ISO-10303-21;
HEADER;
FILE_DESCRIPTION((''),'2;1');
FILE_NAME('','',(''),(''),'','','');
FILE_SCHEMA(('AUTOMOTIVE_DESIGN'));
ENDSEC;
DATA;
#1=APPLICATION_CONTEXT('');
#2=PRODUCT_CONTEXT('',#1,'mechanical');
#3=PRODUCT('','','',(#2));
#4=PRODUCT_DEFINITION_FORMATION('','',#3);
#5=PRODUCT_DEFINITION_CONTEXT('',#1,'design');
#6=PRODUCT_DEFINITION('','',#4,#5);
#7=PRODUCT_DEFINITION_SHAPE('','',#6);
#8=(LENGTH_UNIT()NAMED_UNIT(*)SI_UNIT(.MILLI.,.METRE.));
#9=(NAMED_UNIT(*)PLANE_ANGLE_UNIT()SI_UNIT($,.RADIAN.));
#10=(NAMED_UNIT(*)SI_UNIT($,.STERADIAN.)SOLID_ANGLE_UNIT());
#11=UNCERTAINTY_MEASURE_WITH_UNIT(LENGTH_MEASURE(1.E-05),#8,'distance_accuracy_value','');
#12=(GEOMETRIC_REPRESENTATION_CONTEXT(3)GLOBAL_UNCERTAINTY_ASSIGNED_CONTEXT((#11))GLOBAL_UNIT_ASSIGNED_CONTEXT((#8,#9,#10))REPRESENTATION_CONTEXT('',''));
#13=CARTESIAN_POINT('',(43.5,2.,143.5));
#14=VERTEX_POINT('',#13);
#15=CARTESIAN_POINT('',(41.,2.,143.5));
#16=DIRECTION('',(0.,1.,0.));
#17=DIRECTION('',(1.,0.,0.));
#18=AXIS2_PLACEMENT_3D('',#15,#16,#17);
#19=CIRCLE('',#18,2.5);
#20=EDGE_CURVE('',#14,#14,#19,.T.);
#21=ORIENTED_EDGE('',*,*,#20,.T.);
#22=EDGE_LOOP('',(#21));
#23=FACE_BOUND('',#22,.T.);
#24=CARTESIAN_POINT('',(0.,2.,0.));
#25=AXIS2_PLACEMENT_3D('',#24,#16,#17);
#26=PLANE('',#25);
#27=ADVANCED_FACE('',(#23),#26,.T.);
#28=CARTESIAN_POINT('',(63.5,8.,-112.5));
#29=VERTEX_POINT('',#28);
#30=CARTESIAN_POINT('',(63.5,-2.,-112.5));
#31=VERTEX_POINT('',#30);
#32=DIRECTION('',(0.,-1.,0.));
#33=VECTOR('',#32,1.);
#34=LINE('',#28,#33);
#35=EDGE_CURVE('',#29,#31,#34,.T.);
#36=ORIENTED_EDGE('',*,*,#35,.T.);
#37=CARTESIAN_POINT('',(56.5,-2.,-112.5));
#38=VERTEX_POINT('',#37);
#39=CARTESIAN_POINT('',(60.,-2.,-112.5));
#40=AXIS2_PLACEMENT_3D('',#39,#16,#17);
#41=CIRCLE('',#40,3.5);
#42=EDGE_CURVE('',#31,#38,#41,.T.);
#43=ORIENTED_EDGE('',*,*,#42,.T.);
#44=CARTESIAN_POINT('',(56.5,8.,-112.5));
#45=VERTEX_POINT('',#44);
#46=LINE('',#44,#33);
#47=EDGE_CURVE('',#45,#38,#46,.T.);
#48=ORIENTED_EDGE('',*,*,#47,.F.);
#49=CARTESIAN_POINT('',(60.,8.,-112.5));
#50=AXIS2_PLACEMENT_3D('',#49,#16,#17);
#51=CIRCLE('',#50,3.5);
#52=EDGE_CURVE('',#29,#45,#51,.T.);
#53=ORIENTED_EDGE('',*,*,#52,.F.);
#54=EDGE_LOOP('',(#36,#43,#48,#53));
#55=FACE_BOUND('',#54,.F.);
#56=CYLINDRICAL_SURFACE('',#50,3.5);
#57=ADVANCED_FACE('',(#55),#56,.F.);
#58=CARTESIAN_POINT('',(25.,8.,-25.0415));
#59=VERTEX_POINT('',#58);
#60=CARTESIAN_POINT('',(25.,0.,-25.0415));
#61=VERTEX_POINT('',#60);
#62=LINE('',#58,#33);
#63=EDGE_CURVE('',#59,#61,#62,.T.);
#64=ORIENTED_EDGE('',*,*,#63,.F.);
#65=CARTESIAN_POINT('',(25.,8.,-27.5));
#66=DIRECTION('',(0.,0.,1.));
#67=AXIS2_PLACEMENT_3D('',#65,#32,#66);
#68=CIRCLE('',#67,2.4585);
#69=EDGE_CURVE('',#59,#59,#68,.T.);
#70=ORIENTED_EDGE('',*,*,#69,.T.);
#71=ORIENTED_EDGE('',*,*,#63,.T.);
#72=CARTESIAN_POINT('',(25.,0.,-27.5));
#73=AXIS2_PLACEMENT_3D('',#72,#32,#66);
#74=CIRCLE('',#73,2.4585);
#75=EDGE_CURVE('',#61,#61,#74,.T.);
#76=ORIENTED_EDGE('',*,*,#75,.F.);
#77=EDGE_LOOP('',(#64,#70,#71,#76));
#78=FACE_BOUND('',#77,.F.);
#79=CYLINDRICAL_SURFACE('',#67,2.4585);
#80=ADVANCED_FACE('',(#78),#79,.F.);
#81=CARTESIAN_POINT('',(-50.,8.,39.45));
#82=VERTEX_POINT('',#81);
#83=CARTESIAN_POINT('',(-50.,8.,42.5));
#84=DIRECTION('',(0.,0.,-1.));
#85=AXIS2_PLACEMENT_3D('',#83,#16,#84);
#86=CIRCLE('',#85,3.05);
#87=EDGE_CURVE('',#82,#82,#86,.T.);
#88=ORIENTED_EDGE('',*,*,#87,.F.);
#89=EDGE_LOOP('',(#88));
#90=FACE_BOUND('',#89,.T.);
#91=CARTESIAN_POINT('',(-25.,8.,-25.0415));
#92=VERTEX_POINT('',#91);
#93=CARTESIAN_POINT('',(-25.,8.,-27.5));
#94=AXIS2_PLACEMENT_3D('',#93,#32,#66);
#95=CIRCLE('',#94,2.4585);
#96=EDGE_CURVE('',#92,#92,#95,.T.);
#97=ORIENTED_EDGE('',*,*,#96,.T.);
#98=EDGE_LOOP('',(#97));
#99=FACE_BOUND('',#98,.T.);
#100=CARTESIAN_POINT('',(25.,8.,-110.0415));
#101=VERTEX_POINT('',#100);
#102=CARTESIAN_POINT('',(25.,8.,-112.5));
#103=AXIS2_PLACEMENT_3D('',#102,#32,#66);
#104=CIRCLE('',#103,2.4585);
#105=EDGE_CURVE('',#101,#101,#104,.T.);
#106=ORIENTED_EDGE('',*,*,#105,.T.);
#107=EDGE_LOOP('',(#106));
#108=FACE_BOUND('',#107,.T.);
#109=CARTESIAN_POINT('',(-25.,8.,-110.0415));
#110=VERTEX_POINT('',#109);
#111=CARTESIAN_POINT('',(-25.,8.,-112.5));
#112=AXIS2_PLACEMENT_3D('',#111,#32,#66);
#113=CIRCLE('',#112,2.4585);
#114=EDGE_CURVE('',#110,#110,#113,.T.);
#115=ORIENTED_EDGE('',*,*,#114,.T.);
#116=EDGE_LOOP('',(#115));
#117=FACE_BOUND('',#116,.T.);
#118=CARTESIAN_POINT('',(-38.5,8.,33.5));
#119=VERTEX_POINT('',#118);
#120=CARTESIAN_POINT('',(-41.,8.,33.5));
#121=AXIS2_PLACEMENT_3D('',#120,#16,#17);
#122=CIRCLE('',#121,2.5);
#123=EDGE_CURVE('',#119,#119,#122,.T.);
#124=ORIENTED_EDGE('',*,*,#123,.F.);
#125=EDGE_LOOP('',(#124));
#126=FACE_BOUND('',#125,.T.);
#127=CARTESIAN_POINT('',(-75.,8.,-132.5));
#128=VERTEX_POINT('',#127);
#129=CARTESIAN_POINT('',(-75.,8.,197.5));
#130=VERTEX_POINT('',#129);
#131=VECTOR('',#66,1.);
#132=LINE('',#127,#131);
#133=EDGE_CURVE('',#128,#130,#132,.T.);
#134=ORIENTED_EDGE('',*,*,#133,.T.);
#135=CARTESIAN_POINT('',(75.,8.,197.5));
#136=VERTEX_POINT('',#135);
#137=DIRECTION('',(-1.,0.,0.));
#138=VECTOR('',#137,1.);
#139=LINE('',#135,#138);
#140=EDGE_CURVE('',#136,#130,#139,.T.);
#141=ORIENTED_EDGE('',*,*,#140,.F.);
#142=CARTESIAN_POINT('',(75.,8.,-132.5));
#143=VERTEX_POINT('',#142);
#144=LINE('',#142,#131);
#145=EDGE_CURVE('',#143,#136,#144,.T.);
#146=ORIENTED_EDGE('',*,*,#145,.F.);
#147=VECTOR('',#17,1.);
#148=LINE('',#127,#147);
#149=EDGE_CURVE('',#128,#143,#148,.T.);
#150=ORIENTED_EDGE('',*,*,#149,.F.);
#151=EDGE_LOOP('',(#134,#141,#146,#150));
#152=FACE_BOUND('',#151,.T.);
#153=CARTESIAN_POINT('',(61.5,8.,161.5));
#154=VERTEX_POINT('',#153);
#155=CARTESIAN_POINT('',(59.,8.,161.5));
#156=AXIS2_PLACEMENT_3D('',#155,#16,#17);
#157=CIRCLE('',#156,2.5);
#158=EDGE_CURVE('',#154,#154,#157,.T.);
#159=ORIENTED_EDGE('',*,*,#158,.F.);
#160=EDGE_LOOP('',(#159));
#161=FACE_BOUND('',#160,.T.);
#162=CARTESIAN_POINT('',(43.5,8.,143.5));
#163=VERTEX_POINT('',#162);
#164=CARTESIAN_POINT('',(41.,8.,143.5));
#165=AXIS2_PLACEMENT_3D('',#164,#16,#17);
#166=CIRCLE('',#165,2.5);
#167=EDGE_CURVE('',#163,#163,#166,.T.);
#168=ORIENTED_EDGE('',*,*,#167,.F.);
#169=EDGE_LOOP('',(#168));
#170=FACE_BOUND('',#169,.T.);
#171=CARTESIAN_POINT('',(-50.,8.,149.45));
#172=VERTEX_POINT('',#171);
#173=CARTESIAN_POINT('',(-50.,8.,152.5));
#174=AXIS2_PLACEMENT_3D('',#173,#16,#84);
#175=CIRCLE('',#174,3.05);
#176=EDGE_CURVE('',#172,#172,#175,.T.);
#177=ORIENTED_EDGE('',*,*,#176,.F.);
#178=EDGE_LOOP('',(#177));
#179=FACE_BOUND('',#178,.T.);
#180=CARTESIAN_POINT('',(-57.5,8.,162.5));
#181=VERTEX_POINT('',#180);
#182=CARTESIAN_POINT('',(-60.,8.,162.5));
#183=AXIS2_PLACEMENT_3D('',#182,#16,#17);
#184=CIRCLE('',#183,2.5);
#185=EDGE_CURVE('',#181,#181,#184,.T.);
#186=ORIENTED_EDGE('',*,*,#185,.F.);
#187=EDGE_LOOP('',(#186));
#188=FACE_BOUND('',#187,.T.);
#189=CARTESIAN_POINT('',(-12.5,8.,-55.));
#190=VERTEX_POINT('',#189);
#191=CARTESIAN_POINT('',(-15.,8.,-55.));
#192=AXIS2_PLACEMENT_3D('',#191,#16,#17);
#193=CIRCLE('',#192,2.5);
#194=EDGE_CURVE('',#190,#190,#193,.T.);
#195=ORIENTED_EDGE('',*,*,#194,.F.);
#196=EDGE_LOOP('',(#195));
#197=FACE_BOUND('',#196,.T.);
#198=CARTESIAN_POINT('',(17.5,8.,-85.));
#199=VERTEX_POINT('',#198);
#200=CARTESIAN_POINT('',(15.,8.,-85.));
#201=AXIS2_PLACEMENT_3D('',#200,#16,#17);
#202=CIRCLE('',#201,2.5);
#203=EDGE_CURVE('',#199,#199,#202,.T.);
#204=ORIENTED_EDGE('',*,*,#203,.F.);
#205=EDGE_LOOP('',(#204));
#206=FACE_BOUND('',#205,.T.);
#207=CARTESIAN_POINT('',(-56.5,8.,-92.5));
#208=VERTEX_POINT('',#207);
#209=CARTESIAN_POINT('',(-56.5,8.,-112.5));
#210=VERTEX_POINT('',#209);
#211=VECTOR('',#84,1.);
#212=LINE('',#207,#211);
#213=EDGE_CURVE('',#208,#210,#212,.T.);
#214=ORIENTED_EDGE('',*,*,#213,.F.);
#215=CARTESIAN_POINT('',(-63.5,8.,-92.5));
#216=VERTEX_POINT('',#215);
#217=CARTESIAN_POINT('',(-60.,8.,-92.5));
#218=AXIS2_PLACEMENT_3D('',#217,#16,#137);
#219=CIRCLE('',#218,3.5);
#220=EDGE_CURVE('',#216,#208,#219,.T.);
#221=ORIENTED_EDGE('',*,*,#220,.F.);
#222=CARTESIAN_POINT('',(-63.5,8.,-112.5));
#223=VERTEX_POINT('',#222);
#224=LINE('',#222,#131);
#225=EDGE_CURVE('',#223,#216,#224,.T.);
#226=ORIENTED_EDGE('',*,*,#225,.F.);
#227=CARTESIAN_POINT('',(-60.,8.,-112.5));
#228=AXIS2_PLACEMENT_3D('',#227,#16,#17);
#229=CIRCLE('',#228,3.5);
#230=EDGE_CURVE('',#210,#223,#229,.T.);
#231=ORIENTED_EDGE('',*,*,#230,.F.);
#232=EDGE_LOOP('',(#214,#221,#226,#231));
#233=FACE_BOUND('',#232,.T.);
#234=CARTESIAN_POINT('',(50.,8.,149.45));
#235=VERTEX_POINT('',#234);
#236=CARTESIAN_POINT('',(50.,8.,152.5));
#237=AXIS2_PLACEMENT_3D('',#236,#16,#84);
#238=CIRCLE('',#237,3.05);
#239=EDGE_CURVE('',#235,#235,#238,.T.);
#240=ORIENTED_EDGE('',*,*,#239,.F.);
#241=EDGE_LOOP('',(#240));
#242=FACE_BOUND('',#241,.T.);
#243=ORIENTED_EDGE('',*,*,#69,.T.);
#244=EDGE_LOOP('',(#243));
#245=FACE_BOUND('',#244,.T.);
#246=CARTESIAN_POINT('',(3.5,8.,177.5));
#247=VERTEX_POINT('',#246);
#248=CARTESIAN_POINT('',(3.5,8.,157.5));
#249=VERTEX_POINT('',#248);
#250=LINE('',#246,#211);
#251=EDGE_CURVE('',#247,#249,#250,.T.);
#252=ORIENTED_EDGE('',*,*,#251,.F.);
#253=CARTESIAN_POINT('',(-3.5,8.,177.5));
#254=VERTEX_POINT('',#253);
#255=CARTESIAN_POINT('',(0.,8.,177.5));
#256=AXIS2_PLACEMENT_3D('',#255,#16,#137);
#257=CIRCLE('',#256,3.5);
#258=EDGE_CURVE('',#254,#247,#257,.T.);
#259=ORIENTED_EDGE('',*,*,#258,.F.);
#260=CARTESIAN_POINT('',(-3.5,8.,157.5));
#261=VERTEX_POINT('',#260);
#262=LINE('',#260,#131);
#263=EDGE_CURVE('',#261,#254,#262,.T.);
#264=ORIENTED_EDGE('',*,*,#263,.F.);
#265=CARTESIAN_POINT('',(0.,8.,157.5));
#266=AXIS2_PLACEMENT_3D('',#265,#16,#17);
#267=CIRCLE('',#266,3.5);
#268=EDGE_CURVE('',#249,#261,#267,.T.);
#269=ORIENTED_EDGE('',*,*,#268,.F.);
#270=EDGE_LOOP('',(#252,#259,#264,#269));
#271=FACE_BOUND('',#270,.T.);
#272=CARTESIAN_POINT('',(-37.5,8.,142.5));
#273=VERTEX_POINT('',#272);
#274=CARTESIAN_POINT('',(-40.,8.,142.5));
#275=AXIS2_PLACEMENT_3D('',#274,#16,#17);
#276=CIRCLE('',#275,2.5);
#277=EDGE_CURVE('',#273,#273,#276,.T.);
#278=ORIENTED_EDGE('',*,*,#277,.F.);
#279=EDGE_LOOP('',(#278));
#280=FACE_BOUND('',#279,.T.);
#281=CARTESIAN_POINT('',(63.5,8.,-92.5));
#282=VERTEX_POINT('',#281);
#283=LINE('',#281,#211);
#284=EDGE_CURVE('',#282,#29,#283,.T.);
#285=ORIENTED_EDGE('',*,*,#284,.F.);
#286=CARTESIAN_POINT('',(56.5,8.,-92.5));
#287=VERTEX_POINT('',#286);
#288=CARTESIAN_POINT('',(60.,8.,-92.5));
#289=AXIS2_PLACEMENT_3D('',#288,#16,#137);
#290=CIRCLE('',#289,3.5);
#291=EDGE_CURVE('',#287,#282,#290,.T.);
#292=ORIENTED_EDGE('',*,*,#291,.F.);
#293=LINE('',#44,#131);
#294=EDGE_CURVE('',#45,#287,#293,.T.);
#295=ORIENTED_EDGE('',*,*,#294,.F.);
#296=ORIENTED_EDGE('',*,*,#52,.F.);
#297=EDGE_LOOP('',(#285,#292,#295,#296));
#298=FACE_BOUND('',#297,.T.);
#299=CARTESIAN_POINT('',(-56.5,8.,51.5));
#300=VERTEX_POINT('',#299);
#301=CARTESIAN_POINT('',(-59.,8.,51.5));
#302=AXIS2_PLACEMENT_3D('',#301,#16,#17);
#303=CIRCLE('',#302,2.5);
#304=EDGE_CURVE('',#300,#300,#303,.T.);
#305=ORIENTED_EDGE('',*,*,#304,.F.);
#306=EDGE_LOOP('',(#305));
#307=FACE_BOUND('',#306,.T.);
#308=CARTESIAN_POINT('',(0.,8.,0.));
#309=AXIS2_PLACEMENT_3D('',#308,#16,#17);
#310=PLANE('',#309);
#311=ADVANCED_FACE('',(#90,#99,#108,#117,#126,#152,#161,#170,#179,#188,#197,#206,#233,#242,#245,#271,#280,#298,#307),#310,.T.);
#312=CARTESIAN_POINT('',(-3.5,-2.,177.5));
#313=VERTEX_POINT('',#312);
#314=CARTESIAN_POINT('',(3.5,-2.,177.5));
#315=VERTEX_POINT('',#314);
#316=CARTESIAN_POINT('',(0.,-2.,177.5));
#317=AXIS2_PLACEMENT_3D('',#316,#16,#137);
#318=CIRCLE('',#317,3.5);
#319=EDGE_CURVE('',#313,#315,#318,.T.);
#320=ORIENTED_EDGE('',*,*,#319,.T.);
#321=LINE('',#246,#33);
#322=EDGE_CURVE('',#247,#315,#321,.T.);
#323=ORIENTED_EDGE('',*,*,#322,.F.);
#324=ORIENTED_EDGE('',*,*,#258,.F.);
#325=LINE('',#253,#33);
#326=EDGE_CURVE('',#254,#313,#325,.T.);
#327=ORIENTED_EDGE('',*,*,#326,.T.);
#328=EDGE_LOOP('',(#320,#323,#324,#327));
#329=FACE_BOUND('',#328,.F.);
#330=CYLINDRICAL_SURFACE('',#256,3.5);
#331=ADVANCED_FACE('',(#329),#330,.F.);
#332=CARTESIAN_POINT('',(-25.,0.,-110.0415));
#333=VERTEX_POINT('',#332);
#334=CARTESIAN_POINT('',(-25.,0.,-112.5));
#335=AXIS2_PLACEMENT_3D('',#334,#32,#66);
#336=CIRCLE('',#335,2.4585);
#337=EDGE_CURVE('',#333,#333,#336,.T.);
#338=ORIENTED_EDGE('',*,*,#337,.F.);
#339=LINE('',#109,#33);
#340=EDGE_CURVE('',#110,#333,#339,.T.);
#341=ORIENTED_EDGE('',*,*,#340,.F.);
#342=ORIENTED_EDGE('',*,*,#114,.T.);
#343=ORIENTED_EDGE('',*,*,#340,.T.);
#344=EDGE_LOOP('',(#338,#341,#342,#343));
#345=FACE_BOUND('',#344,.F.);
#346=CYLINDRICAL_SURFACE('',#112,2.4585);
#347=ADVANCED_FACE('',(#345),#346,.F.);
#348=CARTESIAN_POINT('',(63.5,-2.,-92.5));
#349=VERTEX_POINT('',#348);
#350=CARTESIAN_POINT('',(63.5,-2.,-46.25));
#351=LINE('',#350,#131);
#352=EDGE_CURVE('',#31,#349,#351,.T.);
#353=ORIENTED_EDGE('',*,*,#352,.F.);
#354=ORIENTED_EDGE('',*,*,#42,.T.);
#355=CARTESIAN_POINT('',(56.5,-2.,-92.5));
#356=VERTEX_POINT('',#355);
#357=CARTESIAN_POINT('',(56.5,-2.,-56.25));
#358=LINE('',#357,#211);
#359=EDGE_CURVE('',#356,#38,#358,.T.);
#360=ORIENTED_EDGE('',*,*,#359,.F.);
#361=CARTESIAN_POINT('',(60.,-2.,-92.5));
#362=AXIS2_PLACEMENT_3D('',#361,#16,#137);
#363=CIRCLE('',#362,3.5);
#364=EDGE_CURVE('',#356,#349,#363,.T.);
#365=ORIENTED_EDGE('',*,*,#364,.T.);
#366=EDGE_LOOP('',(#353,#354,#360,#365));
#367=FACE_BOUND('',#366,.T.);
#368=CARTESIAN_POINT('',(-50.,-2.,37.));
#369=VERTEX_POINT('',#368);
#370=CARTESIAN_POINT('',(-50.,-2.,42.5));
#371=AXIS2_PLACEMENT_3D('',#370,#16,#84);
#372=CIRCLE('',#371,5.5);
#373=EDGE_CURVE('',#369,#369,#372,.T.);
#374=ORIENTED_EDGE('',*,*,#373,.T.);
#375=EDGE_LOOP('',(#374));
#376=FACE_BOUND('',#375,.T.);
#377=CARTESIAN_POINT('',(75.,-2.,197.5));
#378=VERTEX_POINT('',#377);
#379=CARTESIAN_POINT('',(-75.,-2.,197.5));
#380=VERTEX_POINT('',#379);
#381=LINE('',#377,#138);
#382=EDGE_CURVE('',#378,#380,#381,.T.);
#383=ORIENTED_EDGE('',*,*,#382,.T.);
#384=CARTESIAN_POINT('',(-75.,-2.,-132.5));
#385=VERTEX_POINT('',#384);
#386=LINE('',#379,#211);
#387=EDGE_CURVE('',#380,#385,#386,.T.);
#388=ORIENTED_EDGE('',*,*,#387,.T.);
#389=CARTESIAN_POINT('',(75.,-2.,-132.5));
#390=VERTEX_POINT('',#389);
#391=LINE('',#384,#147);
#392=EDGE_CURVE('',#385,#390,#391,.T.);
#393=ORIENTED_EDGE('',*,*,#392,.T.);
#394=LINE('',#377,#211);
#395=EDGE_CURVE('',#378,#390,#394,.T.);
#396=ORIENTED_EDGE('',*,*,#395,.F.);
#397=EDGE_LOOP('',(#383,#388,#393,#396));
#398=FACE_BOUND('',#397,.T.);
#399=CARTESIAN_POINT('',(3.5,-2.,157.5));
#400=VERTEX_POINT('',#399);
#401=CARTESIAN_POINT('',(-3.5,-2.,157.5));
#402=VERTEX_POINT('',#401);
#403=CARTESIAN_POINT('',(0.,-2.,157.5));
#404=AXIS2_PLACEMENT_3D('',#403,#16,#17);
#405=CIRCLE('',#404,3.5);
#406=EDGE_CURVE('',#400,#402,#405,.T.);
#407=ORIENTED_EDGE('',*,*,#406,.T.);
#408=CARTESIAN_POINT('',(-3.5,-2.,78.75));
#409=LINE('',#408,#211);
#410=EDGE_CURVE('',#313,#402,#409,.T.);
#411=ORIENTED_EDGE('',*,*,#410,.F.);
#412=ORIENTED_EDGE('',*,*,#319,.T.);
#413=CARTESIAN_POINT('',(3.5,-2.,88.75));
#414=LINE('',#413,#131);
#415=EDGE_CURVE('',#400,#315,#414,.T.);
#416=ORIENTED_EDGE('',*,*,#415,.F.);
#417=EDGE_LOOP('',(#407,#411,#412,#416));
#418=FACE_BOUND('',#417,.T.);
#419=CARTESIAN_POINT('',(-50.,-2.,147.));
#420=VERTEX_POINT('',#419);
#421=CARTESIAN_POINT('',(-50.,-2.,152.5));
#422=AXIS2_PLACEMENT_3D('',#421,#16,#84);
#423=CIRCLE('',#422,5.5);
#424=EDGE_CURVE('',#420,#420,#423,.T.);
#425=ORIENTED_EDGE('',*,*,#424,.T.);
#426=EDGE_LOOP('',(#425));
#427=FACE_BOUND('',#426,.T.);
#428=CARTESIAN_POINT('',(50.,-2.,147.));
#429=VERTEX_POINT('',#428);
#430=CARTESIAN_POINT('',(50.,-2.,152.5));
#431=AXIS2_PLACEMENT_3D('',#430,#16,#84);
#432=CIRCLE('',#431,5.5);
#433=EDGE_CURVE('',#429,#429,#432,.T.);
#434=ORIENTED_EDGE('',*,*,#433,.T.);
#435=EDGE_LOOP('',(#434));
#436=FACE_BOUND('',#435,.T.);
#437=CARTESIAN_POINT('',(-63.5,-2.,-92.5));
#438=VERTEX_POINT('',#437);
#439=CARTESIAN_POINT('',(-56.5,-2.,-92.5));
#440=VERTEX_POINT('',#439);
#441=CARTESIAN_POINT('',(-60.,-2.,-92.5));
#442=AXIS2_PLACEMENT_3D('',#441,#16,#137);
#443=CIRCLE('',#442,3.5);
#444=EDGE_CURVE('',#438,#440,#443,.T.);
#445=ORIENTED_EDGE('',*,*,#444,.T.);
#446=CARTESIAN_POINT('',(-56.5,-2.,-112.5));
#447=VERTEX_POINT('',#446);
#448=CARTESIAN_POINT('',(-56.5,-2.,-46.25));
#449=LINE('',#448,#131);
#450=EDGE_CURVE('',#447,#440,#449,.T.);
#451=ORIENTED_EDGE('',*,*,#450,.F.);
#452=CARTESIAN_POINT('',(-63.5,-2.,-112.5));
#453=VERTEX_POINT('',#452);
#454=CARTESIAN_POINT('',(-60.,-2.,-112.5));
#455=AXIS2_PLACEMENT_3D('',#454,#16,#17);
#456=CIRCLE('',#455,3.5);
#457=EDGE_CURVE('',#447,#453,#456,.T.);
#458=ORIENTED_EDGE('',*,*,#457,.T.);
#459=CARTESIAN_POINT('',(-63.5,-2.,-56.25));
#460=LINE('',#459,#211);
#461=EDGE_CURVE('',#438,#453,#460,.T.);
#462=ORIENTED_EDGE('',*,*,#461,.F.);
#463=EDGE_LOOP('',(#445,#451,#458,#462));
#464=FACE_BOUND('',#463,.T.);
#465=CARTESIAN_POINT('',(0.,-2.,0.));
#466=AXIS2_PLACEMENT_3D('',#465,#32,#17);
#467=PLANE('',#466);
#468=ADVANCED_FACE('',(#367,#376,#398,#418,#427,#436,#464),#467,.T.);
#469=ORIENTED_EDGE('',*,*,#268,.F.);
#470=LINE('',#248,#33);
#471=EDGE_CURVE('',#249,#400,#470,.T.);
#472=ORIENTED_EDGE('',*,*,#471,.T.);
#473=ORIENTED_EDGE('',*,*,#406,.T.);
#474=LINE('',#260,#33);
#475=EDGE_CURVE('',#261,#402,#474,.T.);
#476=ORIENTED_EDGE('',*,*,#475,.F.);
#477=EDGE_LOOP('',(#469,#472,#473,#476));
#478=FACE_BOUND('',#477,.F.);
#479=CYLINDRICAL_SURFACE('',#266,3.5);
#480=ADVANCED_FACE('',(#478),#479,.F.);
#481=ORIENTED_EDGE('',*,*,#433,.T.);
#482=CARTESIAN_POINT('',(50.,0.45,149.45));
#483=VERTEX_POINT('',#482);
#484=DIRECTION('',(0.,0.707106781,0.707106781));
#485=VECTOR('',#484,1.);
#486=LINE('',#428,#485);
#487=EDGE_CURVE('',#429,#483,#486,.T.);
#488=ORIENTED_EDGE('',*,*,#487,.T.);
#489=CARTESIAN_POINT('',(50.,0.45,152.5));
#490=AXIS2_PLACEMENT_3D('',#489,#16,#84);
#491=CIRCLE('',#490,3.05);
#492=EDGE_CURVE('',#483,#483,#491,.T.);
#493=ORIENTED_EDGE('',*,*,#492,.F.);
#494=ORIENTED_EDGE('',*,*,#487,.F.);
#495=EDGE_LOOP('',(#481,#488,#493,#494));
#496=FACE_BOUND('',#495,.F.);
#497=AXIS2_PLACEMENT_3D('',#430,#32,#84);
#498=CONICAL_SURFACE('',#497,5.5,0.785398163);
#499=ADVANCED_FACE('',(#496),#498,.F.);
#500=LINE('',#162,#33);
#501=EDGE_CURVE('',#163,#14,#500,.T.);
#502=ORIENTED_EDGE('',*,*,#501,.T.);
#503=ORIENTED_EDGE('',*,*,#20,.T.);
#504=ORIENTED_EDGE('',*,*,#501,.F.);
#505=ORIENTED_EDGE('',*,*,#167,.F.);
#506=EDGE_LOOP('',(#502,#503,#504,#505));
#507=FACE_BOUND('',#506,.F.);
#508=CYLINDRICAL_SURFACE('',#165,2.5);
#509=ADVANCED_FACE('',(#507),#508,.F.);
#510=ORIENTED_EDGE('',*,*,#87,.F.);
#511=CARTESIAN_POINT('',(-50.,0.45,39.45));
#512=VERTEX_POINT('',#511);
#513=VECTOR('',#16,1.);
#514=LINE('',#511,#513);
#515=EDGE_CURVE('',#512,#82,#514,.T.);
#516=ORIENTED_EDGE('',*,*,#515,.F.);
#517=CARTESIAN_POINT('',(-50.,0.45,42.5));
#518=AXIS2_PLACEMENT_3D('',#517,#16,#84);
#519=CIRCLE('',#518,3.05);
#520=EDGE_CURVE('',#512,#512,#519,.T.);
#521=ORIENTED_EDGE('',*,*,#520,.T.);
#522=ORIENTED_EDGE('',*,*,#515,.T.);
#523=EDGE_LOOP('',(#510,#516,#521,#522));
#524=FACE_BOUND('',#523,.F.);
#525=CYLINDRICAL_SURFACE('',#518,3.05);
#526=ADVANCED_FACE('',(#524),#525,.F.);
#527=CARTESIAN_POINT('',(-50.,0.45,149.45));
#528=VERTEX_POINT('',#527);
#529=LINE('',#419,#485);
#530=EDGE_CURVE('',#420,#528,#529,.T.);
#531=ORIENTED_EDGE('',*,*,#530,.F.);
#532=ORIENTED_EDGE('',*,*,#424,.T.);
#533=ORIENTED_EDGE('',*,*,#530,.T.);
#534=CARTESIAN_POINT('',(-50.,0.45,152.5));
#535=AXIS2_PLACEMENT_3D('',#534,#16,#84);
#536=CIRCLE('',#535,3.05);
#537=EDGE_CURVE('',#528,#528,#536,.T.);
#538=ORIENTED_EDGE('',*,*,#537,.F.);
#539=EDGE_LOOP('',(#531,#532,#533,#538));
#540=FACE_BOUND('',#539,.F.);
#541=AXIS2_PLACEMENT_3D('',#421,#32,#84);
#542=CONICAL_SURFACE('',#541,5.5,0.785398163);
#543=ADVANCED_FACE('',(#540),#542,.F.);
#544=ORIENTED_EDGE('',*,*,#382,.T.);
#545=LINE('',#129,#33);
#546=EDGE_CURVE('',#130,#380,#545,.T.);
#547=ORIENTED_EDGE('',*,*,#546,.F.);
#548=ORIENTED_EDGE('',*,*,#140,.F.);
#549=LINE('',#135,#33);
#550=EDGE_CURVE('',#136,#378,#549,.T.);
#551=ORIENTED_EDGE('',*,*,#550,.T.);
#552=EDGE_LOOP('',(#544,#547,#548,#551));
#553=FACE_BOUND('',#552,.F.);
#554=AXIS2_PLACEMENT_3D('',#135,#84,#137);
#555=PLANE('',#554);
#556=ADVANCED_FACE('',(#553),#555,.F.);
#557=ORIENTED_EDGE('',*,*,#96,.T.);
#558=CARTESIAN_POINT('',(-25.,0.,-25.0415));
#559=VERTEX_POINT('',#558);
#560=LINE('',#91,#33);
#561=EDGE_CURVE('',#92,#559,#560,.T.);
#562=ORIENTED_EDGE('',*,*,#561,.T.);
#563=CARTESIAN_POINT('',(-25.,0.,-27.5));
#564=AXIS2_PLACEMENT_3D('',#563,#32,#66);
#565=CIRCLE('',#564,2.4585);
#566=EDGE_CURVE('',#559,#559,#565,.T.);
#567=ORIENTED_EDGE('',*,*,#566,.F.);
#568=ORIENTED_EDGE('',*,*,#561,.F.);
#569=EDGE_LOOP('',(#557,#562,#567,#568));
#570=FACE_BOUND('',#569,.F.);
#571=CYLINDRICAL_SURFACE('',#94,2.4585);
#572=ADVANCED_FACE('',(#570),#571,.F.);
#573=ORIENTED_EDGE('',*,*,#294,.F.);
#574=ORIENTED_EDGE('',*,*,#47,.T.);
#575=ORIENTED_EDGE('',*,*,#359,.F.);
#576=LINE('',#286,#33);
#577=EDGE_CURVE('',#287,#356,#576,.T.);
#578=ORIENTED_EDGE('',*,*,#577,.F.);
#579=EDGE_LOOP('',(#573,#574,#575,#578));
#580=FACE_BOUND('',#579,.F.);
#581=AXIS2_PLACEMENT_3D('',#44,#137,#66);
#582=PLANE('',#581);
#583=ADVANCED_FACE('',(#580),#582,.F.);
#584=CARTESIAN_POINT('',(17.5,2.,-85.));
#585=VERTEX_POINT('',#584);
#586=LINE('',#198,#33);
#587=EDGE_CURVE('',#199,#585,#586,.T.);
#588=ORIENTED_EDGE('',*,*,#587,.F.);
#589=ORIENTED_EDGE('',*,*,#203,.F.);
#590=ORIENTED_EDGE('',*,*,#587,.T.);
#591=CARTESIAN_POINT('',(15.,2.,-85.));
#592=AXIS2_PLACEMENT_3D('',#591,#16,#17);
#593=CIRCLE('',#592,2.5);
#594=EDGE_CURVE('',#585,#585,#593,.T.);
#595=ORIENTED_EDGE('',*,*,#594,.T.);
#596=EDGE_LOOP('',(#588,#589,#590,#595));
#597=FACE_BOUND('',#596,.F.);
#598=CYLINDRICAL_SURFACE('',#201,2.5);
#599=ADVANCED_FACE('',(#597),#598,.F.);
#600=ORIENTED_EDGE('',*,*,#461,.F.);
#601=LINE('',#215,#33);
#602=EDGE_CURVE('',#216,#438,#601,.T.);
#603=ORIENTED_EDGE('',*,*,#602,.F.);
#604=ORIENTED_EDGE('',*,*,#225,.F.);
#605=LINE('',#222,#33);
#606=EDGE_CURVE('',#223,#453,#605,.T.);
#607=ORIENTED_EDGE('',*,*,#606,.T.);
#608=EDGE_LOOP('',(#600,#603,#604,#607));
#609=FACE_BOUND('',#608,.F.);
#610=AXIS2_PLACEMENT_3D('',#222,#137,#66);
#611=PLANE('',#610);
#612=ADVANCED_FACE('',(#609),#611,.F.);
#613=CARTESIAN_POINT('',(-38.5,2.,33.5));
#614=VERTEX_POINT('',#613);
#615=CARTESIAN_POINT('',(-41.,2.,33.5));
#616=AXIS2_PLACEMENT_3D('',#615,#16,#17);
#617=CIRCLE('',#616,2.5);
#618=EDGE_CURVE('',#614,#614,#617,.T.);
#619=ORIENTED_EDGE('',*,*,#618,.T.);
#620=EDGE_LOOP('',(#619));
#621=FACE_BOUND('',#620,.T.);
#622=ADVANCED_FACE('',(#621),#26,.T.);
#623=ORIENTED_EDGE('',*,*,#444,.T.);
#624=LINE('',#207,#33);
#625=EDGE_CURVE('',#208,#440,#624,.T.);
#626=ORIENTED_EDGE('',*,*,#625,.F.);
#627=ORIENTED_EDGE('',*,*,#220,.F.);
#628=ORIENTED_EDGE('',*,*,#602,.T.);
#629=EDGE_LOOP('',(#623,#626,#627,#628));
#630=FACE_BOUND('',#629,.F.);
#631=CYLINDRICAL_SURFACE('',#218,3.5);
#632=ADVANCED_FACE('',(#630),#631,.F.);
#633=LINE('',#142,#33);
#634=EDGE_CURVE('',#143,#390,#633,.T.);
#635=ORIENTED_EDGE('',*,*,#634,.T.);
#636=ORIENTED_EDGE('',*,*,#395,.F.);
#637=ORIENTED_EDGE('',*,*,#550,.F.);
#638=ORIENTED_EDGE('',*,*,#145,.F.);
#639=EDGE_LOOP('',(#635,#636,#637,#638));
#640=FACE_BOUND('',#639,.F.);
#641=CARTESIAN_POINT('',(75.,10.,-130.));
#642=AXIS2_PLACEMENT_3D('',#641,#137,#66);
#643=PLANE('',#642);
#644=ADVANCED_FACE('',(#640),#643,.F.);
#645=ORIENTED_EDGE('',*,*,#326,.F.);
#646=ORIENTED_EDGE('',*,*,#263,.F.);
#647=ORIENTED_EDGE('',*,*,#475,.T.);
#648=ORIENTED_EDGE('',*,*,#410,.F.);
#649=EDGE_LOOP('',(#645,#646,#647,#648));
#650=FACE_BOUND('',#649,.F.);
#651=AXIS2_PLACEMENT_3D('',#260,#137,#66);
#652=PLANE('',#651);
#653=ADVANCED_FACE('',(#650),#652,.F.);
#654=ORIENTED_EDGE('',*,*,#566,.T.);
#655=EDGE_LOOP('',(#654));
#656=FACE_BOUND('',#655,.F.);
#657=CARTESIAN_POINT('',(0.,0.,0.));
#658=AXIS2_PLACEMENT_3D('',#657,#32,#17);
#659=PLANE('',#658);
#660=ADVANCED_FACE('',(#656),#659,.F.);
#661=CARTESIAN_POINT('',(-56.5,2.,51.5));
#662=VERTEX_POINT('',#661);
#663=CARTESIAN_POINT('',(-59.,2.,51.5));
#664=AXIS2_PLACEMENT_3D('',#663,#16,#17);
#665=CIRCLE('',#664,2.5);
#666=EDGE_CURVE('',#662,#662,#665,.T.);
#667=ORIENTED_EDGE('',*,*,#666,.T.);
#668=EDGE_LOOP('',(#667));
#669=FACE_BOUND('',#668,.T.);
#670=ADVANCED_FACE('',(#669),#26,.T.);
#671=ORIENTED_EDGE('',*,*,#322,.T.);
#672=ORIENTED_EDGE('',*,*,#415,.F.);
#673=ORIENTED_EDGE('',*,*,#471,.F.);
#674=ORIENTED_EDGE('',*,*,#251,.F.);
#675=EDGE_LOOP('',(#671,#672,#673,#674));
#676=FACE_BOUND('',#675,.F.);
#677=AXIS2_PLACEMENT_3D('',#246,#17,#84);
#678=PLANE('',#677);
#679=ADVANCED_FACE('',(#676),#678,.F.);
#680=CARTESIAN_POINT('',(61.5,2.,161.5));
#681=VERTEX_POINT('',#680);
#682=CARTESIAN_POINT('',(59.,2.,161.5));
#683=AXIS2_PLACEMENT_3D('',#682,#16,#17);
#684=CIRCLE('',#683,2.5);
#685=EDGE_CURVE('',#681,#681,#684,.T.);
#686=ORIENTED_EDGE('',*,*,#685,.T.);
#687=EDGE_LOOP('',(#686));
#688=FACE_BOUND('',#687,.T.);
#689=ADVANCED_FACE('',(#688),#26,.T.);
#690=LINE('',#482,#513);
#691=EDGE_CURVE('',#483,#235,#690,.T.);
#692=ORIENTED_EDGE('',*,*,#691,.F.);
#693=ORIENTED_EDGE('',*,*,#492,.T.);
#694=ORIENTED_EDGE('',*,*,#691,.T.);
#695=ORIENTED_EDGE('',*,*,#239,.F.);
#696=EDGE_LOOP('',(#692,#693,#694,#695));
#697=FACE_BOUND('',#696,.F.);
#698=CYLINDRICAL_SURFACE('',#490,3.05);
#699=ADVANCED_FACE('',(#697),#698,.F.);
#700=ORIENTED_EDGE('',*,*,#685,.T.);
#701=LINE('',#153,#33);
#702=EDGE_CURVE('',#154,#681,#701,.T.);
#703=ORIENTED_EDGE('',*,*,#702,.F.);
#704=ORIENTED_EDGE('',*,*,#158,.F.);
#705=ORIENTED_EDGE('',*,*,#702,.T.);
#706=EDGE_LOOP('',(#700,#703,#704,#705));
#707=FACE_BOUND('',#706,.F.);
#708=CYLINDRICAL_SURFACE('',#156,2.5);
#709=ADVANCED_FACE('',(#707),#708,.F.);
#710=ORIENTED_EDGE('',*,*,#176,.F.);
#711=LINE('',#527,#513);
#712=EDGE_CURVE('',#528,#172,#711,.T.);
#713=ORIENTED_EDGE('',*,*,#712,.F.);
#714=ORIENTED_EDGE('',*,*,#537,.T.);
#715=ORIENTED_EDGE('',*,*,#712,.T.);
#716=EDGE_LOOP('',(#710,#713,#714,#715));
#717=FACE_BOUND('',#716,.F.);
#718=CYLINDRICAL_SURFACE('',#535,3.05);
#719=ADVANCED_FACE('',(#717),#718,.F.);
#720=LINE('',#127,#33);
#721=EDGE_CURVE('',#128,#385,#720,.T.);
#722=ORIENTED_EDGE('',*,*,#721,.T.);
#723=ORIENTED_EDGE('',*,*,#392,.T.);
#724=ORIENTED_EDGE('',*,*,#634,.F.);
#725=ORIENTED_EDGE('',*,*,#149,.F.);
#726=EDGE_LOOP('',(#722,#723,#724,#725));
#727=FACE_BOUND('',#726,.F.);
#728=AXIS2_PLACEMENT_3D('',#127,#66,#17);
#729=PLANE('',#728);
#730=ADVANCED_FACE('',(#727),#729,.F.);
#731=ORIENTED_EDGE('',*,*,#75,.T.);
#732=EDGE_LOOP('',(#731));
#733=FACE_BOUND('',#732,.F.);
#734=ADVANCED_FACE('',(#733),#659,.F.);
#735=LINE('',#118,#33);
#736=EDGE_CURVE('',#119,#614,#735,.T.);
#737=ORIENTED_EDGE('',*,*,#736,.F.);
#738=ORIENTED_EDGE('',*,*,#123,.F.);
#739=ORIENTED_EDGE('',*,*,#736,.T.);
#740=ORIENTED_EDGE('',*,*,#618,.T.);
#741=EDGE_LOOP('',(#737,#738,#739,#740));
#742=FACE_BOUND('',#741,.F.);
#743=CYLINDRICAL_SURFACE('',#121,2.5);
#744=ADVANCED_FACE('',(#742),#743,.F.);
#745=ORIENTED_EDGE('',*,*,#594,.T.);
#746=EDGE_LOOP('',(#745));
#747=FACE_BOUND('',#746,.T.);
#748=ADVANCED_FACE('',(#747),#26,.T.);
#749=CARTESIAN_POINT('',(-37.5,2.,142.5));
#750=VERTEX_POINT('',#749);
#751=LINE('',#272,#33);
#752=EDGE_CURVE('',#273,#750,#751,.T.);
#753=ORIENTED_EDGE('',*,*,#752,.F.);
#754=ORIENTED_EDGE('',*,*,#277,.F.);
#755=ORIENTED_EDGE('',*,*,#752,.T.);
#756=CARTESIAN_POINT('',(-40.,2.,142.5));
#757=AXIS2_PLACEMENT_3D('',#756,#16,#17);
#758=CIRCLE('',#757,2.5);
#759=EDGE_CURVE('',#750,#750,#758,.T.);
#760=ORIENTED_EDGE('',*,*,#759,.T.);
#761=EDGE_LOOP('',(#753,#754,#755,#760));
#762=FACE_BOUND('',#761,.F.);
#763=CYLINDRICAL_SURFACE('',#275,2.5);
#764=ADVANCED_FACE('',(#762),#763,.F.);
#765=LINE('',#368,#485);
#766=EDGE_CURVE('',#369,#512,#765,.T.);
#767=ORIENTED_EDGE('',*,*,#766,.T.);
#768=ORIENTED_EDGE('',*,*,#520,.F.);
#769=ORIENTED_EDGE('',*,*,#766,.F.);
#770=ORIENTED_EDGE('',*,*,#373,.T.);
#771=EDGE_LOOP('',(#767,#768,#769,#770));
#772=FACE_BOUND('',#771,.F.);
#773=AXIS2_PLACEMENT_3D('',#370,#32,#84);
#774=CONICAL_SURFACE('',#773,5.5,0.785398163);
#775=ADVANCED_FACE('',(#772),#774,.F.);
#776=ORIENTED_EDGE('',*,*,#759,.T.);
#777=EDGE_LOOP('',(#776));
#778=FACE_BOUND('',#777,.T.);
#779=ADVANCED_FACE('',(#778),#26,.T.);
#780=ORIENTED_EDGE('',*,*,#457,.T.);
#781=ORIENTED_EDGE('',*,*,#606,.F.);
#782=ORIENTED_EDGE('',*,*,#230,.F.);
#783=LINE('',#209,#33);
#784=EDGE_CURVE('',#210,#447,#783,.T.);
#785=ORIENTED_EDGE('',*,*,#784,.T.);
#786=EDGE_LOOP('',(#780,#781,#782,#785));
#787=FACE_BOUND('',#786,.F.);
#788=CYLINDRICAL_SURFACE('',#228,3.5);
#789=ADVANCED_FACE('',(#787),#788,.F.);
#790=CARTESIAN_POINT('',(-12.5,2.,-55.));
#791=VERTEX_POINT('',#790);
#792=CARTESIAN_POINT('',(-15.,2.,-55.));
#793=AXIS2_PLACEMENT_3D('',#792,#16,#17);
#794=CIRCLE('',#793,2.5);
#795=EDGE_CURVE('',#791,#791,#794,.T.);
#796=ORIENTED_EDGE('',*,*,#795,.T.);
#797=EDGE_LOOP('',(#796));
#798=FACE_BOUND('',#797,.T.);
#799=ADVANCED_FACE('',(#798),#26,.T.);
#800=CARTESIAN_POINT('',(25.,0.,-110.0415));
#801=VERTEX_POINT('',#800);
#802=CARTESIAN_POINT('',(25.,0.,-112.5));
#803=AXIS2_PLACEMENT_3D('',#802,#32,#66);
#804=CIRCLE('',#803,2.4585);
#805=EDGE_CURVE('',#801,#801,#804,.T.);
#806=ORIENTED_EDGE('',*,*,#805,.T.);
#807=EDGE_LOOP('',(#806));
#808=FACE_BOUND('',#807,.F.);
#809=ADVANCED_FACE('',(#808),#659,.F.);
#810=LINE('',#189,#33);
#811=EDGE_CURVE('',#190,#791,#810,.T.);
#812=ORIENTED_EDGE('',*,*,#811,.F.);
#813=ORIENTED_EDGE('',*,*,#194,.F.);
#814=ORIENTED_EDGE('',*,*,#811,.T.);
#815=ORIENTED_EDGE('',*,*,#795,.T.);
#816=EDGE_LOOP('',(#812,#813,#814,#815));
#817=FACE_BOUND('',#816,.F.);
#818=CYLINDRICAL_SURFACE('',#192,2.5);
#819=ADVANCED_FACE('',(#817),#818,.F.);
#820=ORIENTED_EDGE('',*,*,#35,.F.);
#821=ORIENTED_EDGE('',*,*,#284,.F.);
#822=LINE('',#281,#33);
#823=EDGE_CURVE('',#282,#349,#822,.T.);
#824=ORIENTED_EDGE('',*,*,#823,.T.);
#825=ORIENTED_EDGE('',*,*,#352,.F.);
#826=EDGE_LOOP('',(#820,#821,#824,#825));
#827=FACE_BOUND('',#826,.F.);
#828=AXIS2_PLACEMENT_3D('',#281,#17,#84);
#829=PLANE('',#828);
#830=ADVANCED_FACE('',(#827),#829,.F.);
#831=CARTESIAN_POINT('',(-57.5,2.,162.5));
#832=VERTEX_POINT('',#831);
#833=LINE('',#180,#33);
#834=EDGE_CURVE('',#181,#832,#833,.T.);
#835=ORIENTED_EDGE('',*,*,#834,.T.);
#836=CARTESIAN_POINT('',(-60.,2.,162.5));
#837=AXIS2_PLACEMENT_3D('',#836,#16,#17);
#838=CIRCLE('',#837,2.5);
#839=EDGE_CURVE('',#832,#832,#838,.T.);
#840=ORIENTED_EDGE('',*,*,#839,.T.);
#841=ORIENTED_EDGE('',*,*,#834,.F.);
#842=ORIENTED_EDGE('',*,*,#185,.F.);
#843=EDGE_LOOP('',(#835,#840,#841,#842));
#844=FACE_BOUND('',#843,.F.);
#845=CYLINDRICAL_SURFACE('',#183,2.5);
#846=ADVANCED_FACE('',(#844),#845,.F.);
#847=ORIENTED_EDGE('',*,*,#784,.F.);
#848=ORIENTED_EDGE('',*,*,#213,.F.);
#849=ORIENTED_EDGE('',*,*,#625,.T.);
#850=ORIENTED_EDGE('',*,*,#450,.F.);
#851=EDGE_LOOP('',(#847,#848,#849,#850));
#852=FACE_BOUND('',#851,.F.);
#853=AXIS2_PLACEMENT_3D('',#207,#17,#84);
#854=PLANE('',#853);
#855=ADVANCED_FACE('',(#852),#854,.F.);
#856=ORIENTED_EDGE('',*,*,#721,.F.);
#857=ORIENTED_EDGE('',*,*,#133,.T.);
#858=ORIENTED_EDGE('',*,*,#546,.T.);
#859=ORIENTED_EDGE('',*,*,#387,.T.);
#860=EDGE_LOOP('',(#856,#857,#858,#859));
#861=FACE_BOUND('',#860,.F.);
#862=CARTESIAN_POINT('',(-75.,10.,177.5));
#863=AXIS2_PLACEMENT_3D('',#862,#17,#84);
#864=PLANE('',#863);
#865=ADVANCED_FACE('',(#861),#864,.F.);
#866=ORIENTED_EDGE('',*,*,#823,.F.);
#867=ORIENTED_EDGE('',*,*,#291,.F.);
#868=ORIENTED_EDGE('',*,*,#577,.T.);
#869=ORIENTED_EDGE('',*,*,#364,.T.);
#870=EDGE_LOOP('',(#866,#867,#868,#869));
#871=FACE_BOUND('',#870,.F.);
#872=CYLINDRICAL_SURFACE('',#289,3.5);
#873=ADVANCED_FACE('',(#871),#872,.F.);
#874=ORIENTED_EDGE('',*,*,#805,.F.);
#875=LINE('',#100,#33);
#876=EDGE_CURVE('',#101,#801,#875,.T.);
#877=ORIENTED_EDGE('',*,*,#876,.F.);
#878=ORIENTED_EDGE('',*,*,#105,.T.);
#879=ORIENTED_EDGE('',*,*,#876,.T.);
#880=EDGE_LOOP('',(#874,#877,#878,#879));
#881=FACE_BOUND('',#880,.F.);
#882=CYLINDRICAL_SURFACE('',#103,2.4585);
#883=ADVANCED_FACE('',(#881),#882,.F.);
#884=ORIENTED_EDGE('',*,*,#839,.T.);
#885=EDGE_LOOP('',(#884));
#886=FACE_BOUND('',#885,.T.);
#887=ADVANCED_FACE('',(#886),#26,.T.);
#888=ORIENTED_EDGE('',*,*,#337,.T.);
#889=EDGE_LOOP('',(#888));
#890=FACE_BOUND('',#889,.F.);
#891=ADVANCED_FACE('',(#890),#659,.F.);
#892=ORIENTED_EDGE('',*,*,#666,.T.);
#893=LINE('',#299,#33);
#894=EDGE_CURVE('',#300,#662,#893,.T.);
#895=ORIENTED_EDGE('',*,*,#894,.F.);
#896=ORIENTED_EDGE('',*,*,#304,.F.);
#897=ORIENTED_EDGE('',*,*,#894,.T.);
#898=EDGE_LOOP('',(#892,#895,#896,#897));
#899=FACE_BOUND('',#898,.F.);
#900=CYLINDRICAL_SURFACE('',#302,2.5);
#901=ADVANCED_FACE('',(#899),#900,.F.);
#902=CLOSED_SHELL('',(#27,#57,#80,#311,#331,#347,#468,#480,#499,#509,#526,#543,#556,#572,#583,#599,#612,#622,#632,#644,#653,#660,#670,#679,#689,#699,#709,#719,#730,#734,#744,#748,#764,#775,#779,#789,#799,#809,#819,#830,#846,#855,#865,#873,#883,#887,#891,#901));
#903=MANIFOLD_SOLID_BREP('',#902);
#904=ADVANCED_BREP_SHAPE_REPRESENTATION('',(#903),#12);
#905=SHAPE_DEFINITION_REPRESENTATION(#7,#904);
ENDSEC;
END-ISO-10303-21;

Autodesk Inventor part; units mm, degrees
ref_plane "YZ Plane" through (0, 0, 0) normal (1, 0, 0) x (0, 1, 0)
ref_plane "XZ Plane" through (0, 0, 0) normal (0, 1, 0) x (-1, 0, 0)
ref_plane "XY Plane" through (0, 0, 0) normal (0, 0, 1) x (1, 0, 0)
sketch "Sketch1" plane through (0, 0, 0) normal (0, 1, 0) x (-1, 0, 0)
  line L0 (90, 130) -> (-90, 130)
  line L1 (-90, 130) -> (-90, -130)
  line L2 (-90, -130) -> (90, -130)
  line L3 (90, -130) -> (90, 130)
  line L4 (90, 130) -> (-90, -130) construction
  line L5 (-90, 130) -> (90, -130) construction
  point P0 (0, 0)
  dimension "d0" = 180
  dimension "d1" = 260
extrude "Extrusion1" add sketch "Sketch1" along normal blind 10
sketch "Sketch2" plane through (0, 10, 0) normal (0, 1, 0) x (1, 0, 0)
  line L0 (90, 130) -> (-90, 130) construction
  line L1 (0, 130) -> (0, 120) construction
  line L2 (0, 130) -> (10, 130) construction
  line L3 (0, 120) -> (0, 70) construction
  line L4 (-37.5, 17.5) -> (37.5, 17.5)
  line L5 (37.5, 17.5) -> (37.5, 122.5)
  line L6 (37.5, 122.5) -> (-37.5, 122.5)
  line L7 (-37.5, 122.5) -> (-37.5, 17.5)
  line L8 (-37.5, 17.5) -> (37.5, 122.5) construction
  line L9 (37.5, 17.5) -> (-37.5, 122.5) construction
  point P0 (0, 0)
  dimension "d4" = 10
  dimension "d6" = 50
  dimension "d7" = 75
  dimension "d8" = 105
extrude "Extrusion2" cut sketch "Sketch2" against normal blind 2
sketch "Sketch3" plane through (0, 8, 0) normal (0, 1, 0) x (1, 0, 0)
  line L0 (-37.5, 122.5) -> (37.5, 122.5) construction
  line L1 (0, 122.5) -> (0, 70) construction
  line L2 (-15, 55) -> (15, 55) construction
  line L3 (15, 55) -> (15, 85) construction
  line L4 (15, 85) -> (-15, 85) construction
  line L5 (-15, 85) -> (-15, 55) construction
  line L6 (-15, 55) -> (15, 85) construction
  line L7 (15, 55) -> (-15, 85) construction
  circle A0 centre (15, 55) radius 3.1
  circle A1 centre (-15, 85) radius 3.1
  line L8 (-25, 27.5) -> (25, 27.5) construction
  line L9 (25, 27.5) -> (25, 112.5) construction
  line L10 (25, 112.5) -> (-25, 112.5) construction
  line L11 (-25, 112.5) -> (-25, 27.5) construction
  line L12 (-25, 27.5) -> (25, 112.5) construction
  line L13 (25, 27.5) -> (-25, 112.5) construction
  circle A2 centre (-15, 55) radius 2.5
  circle A3 centre (15, 85) radius 2.5
  point P0 (0, 0)
  dimension "d11" = 52.5
  dimension "d12" = 30
  dimension "d13" = 30
  dimension "d14" = 6.2
  dimension "d15" = 6.2
  dimension "d19" = 50
  dimension "d20" = 85
  dimension "d175" = 5
  dimension "d176" = 5
extrude "Extrusion3" cut sketch "Sketch3" against normal blind 6 contours A2 | A3
hole "Hole1" at (-25, 8, -27.5) at (25, 8, -27.5) at (25, 8, -112.5) at (-25, 8, -112.5) direction (0, -1, 0) diameter 4.917 depth 10 thread size "M6x1" class "6H" standard "ANSI Metric M Profile"
sketch "Sketch6" plane through (0, 10, 0) normal (0, 1, 0) x (1, 0, 0)
  line L0 (90, -130) -> (90, 130) projected
  line L1 (90, -130) -> (-90, -130)
  line L2 (-90, -130) -> (-90, -192.5)
  line L3 (-90, -192.5) -> (90, -192.5)
  line L4 (90, -192.5) -> (90, -130)
  point P0 (0, 0)
  dimension "d101" = 62.5
extrude "Extrusion15" add sketch "Sketch6" against normal blind 10
sketch "Sketch13" plane through (0, 10, 0) normal (0, 1, 0) x (1, 0, 0)
  line L0 (90, -192.5) -> (-90, -192.5) construction
  line L1 (90, -192.5) -> (50, -192.5) construction
  line L2 (50, -192.5) -> (50, -152.5) construction
  line L3 (50, -152.5) -> (90, -152.5) construction
  line L4 (90, -152.5) -> (90, -192.5) construction
  line L5 (-90, 130) -> (-90, -192.5) construction
  line L6 (-90, -192.5) -> (-50, -192.5) construction
  line L7 (-50, -192.5) -> (-50, -42.5) construction
  line L8 (-50, -42.5) -> (-90, -42.5) construction
  line L9 (-90, -42.5) -> (-90, -192.5) construction
  line L10 (32, -170.5) -> (68, -170.5)
  line L11 (68, -170.5) -> (68, -134.5)
  line L12 (68, -134.5) -> (32, -134.5)
  line L13 (32, -134.5) -> (32, -170.5)
  line L14 (32, -170.5) -> (68, -134.5) construction
  line L15 (68, -170.5) -> (32, -134.5) construction
  line L16 (-68, -60.5) -> (-32, -60.5)
  line L17 (-32, -60.5) -> (-32, -24.5)
  line L18 (-32, -24.5) -> (-68, -24.5)
  line L19 (-68, -24.5) -> (-68, -60.5)
  line L20 (-68, -60.5) -> (-32, -24.5) construction
  line L21 (-32, -60.5) -> (-68, -24.5) construction
  point P0 (0, 0)
  dimension "d104" = 40
  dimension "d105" = 40
  dimension "d106" = 40
  dimension "d107" = 150
  dimension "d108" = 36
  dimension "d109" = 36
  dimension "d110" = 36
  dimension "d111" = 36
extrude "Extrusion16" cut sketch "Sketch13" against normal blind 2
sketch "Sketch14" plane through (0, 8, 0) normal (0, 1, 0) x (1, 0, 0)
  line L0 (68, -170.5) -> (32, -170.5) construction
  line L1 (68, -170.5) -> (32, -134.5) construction
  line L2 (68, -134.5) -> (68, -170.5) construction
  line L3 (68, -134.5) -> (32, -170.5) construction
  line L4 (-32, -24.5) -> (-32, -60.5) construction
  line L5 (-32, -60.5) -> (-68, -24.5) construction
  line L6 (-68, -24.5) -> (-32, -24.5) construction
  line L7 (-32, -60.5) -> (-68, -60.5) construction
  line L8 (-32, -24.5) -> (-68, -60.5) construction
  line L9 (50, -152.5) -> (50, -134.5) construction
  line L10 (32, -134.5) -> (68, -134.5) construction
  line L11 (-50, -42.5) -> (-50, -24.5) construction
  line L12 (41, -161.5) -> (59, -161.5) construction
  line L13 (59, -161.5) -> (59, -143.5) construction
  line L14 (59, -143.5) -> (41, -143.5) construction
  line L15 (41, -143.5) -> (41, -161.5) construction
  line L16 (41, -161.5) -> (59, -143.5) construction
  line L17 (59, -161.5) -> (41, -143.5) construction
  line L18 (-59, -51.5) -> (-41, -51.5) construction
  line L19 (-41, -51.5) -> (-41, -33.5) construction
  line L20 (-41, -33.5) -> (-59, -33.5) construction
  line L21 (-59, -33.5) -> (-59, -51.5) construction
  line L22 (-59, -51.5) -> (-41, -33.5) construction
  line L23 (-41, -51.5) -> (-59, -33.5) construction
  circle A0 centre (59, -161.5) radius 2.5
  circle A1 centre (41, -143.5) radius 2.5
  circle A2 centre (-59, -51.5) radius 2.5
  circle A3 centre (-41, -33.5) radius 2.5
  point P0 (0, 0)
  dimension "d121" = 18
  dimension "d122" = 18
  dimension "d123" = 18
  dimension "d124" = 18
  dimension "d125" = 5
  dimension "d126" = 5
  dimension "d127" = 5
  dimension "d128" = 5
sketch "Sketch15" plane through (0, 0, 0) normal (0, -1, 0) x (1, 0, 0)
  line L0 (68, 134.5) -> (68, 170.5) construction
  line L1 (68, 170.5) -> (32, 134.5) construction
  line L2 (32, 134.5) -> (68, 134.5) construction
  line L3 (68, 134.5) -> (32, 170.5) construction
  line L4 (32, 170.5) -> (50, 152.5) construction
  line L5 (-32, 24.5) -> (-32, 60.5) construction
  line L6 (-32, 60.5) -> (-68, 24.5) construction
  line L7 (-68, 24.5) -> (-32, 24.5) construction
  line L8 (-32, 24.5) -> (-68, 60.5) construction
  line L9 (-68, 60.5) -> (-50, 42.5) construction
  point P0 (0, 0)
extrude "Extrusion17" cut sketch "Sketch14" against normal blind 6
sketch "Sketch16" plane through (0, 10, 0) normal (0, 1, 0) x (1, 0, 0)
  line L0 (32, -170.5) -> (32, -134.5) construction
  line L1 (32, -134.5) -> (-90, -134.5) construction
  line L2 (-90, 130) -> (-90, -192.5) construction
  line L3 (32, -170.5) -> (-90, -170.5) construction
  line L4 (-32, -60.5) -> (-68, -60.5) construction
  line L5 (-32, -60.5) -> (-32, -134.5) construction
  line L6 (-32, -134.5) -> (-63, -134.5)
  line L7 (-63, -134.5) -> (-63, -165.5)
  line L8 (-63, -165.5) -> (-32, -165.5)
  line L9 (-32, -165.5) -> (-32, -134.5)
  point P0 (0, 0)
  dimension "d140" = 31
  dimension "d141" = 31
extrude "Extrusion18" cut sketch "Sketch16" against normal blind 2
sketch "Sketch18" plane through (0, 0, 0) normal (0, -1, 0) x (1, 0, 0)
  line L0 (-90, 192.5) -> (90, 192.5) projected
  line L1 (-90, -130) -> (-90, 192.5) projected
  line L2 (90, 192.5) -> (-90, 192.5)
  line L3 (-90, 192.5) -> (-90, -130)
  line L4 (-90, -130) -> (90, -130)
  line L5 (90, -130) -> (90, 192.5)
  point P0 (0, 0)
extrude "Extrusion20" add sketch "Sketch18" along normal blind 2
sketch "Sketch19" plane through (0, -2, 0) normal (0, -1, 0) x (1, 0, 0)
  circle A0 centre (50, 152.5) radius 2.4585 construction
  circle A1 centre (-50, 42.5) radius 2.4585 construction
  line L0 (50, 152.5) -> (-50, 42.5) construction
  line L1 (-32, 165.5) -> (-63, 165.5) construction
  line L2 (-32, 134.5) -> (-32, 165.5) construction
  line L3 (-63, 165.5) -> (-32, 134.5) construction
  line L4 (-63, 134.5) -> (-32, 134.5) construction
  line L5 (-63, 134.5) -> (-32, 165.5) construction
  line L6 (-47.5, 150) -> (-32, 150) construction
  point P0 (0, 0)
hole "Hole6" at (-50, -2, 42.5) at (50, -2, 152.5) direction (0, 1, 0) diameter 6.1 end through all countersink diameter 11 countersink angle 90 clearance for "Countersunk Flat Head Screw ISO 2009/7046" size "M6" standard "ISO"
sketch "Sketch20" plane through (0, 10, 0) normal (0, 1, 0) x (1, 0, 0)
  line L0 (-90, 130) -> (90, 130) construction
  line L1 (-90, -192.5) -> (-90, 130) construction
  line L2 (90, 130) -> (-90, 130) construction
  line L3 (-90, 130) -> (-90, -192.5) construction
  line L4 (-90, -192.5) -> (90, -192.5) construction
  line L5 (90, -192.5) -> (90, 130) construction
  line L6 (-90, -192.5) -> (-75, -192.5)
  line L7 (-75, -177.5) -> (-75, 130)
  line L8 (-75, 130) -> (-90, 130)
  line L9 (-90, 130) -> (-90, -192.5)
  line L10 (90, 130) -> (75, 130)
  line L11 (75, 130) -> (75, -177.5)
  line L12 (75, -192.5) -> (90, -192.5)
  line L13 (90, -192.5) -> (90, 130)
  line L14 (90, -192.5) -> (-90, -192.5)
  line L15 (-90, -192.5) -> (-90, -177.5)
  line L16 (-75, -177.5) -> (75, -177.5)
  line L17 (90, -177.5) -> (90, -192.5)
  point P0 (0, 0)
  dimension "d166" = 180
  dimension "d167" = 15
  dimension "d168" = 15
  dimension "d169" = 15
extrude "Extrusion21" cut sketch "Sketch20" against normal through all
sketch "Sketch21" plane through (0, 10, 0) normal (0, 1, 0) x (1, 0, 0)
  line L0 (-75, -177.5) -> (-75, 130) projected
  line L1 (75, 130) -> (75, -177.5) projected
  line L2 (-75, -177.5) -> (75, -177.5)
  line L3 (75, -177.5) -> (75, 130)
  line L4 (75, 130) -> (-75, 130)
  line L5 (-75, 130) -> (-75, -177.5)
  point P0 (0, 0)
extrude "Extrusion22" cut sketch "Sketch21" against normal blind 2
sketch "Sketch22" plane through (0, 8, 0) normal (0, 1, 0) x (1, 0, 0)
  circle A0 centre (-50, -42.5) radius 3.05 projected
  circle A1 centre (-50, -42.5) radius 28.5
  circle A2 centre (50, -152.5) radius 3.05 projected
  circle A3 centre (50, -152.5) radius 28.5
  line L0 (75, 130) -> (75, -177.5) projected
  line L1 (50, -152.5) -> (75, -152.5)
  line L2 (75, -152.5) -> (75, -67)
  line L3 (75, -67) -> (50, -67)
  line L4 (50, -67) -> (50, -152.5)
  circle A4 centre (-50, -42.5) radius 5.5 projected
  line L5 (-50, -42.5) -> (35.5, -42.5)
  line L6 (35.5, -42.5) -> (35.5, -48.8)
  line L7 (35.5, -48.8) -> (-50, -48.8)
  line L8 (-50, -48.8) -> (-50, -42.5)
  point P0 (0, 0)
  dimension "d182" = 57
  dimension "d183" = 57
  dimension "d184" = 85.5
  dimension "d185" = 85.5
sketch "Sketch23" plane through (0, 8, 0) normal (0, 1, 0) x (1, 0, 0)
  line L0 (75, 130) -> (75, -177.5) projected
  line L1 (-75, -177.5) -> (-75, 130) projected
  line L2 (75, 130) -> (-75, 130)
  line L3 (-75, 130) -> (-75, -177.5)
  line L4 (-75, -177.5) -> (75, -177.5)
  line L5 (75, -177.5) -> (75, 130)
  line L6 (-75, 130) -> (75, 130) projected
  line L7 (75, 130) -> (-75, 130)
  line L8 (-75, 130) -> (-75, 132.5)
  line L9 (-75, 132.5) -> (75, 132.5)
  line L10 (75, 132.5) -> (75, 130)
  line L11 (-75, -177.5) -> (75, -177.5)
  line L12 (75, -177.5) -> (75, -197.5)
  line L13 (75, -197.5) -> (-75, -197.5)
  line L14 (-75, -197.5) -> (-75, -177.5)
  point P0 (0, 0)
  dimension "d186" = 2.5
  dimension "d187" = 20
extrude "Extrusion23" add sketch "Sketch23" against normal blind 10 contours L2 L8 L9 L10 | L12 L13 L14 L4
sketch "Sketch24" plane through (0, 8, 0) normal (0, 1, 0) x (1, 0, 0)
  circle A0 centre (50, -152.5) radius 3.05 construction
  line L0 (50, -152.5) -> (-74.625, -152.5) construction
  circle A1 centre (-50, -42.5) radius 3.05 construction
  line L1 (-50, -42.5) -> (-50, -199.1809) construction
  line L2 (-60, -162.5) -> (-40, -162.5) construction
  line L3 (-40, -162.5) -> (-40, -142.5) construction
  line L4 (-40, -142.5) -> (-60, -142.5) construction
  line L5 (-60, -142.5) -> (-60, -162.5) construction
  line L6 (-60, -162.5) -> (-40, -142.5) construction
  line L7 (-40, -162.5) -> (-60, -142.5) construction
  circle A2 centre (-60, -162.5) radius 2.5
  circle A3 centre (-40, -142.5) radius 2.5
  circle A4 centre (-40, -162.5) radius 2.5
  circle A5 centre (-60, -142.5) radius 2.5
  point P0 (0, 0)
  point P1 (-50, -152.5)
  dimension "d190" = 20
  dimension "d191" = 20
  dimension "d192" = 5
  dimension "d193" = 5
  dimension "d221" = 5
  dimension "d222" = 5
extrude "Extrusion24" cut sketch "Sketch24" against normal blind 6 contours A2 | A3
sketch "Sketch25" plane through (0, -2, 0) normal (0, -1, 0) x (1, 0, 0)
  circle A0 centre (50, 152.5) radius 3.05 construction
  line L0 (50, 152.5) -> (-75, 152.5) construction
  line L1 (-75, 197.5) -> (-75, -132.5) construction
  circle A1 centre (-50, 42.5) radius 3.05 construction
  line L2 (-50, 42.5) -> (-50, 197.5) construction
  line L3 (75, 197.5) -> (-75, 197.5) construction
  circle A2 centre (-50, 152.5) radius 7.5 construction
  point P0 (0, 0)
  dimension "d213" = 15
hole "Hole10" at (-50, -2, 152.5) direction (0, 1, 0) diameter 6.1 end through all countersink diameter 11 countersink angle 90 clearance for "Countersunk Flat Head Screw ISO 2009/7046" size "M6" standard "ISO"
sketch "Sketch26" plane through (0, 8, 0) normal (0, 1, 0) x (1, 0, 0)
  line L0 (-75, -197.5) -> (-75, 132.5) construction
  line L1 (-75, 132.5) -> (-75, -32.5) construction
  line L2 (-75, -32.5) -> (0, -32.5) construction
  line L3 (75, -172.5) -> (-75, -172.5) construction
  line L4 (-75, -172.5) -> (-75, 107.5) construction
  line L5 (-75, 107.5) -> (75, 107.5) construction
  line L6 (75, 107.5) -> (75, -172.5) construction
  line L7 (75, -172.5) -> (-75, 107.5) construction
  line L8 (-75, -172.5) -> (75, 107.5) construction
  line L9 (0, -172.5) -> (0, -32.5) construction
  line L10 (0, -172.5) -> (0, -177.5) construction
  line L11 (0, 107.5) -> (-60, 107.5) construction
  line L12 (0, 107.5) -> (60, 107.5) construction
  line L13 (-60, 107.5) -> (-60, 112.5) construction
  line L14 (60, 107.5) -> (60, 112.5) construction
  line L15 (0, -177.5) -> (0, -157.5) construction
  line L16 (3.5, -177.5) -> (3.5, -157.5)
  line L17 (-3.5, -157.5) -> (-3.5, -177.5)
  arc A0 (-3.5, -177.5) -> (3.5, -177.5) centre (0, -177.5) ccw
  arc A1 (3.5, -157.5) -> (-3.5, -157.5) centre (0, -157.5) ccw
  line L18 (-60, 112.5) -> (-60, 92.5) construction
  line L19 (-63.5, 112.5) -> (-63.5, 92.5)
  line L20 (-56.5, 92.5) -> (-56.5, 112.5)
  arc A2 (-56.5, 112.5) -> (-63.5, 112.5) centre (-60, 112.5) ccw
  arc A3 (-63.5, 92.5) -> (-56.5, 92.5) centre (-60, 92.5) ccw
  line L21 (60, 112.5) -> (60, 92.5) construction
  line L22 (56.5, 112.5) -> (56.5, 92.5)
  line L23 (63.5, 92.5) -> (63.5, 112.5)
  arc A4 (63.5, 112.5) -> (56.5, 112.5) centre (60, 112.5) ccw
  arc A5 (56.5, 92.5) -> (63.5, 92.5) centre (60, 92.5) ccw
  point P0 (0, 0)
  point P1 (0, -167.5)
  point P2 (-60, 102.5)
  point P3 (60, 102.5)
  dimension "d223" = 165
  dimension "d224" = 280
  dimension "d225" = 5
  dimension "d226" = 60
  dimension "d227" = 60
  dimension "d228" = 5
  dimension "d229" = 5
  dimension "d230" = 20
  dimension "d231" = 7
  dimension "d232" = 20
  dimension "d233" = 7
  dimension "d234" = 20
  dimension "d235" = 7
extrude "Extrusion25" cut sketch "Sketch26" against normal through all
properties part number "Base"
